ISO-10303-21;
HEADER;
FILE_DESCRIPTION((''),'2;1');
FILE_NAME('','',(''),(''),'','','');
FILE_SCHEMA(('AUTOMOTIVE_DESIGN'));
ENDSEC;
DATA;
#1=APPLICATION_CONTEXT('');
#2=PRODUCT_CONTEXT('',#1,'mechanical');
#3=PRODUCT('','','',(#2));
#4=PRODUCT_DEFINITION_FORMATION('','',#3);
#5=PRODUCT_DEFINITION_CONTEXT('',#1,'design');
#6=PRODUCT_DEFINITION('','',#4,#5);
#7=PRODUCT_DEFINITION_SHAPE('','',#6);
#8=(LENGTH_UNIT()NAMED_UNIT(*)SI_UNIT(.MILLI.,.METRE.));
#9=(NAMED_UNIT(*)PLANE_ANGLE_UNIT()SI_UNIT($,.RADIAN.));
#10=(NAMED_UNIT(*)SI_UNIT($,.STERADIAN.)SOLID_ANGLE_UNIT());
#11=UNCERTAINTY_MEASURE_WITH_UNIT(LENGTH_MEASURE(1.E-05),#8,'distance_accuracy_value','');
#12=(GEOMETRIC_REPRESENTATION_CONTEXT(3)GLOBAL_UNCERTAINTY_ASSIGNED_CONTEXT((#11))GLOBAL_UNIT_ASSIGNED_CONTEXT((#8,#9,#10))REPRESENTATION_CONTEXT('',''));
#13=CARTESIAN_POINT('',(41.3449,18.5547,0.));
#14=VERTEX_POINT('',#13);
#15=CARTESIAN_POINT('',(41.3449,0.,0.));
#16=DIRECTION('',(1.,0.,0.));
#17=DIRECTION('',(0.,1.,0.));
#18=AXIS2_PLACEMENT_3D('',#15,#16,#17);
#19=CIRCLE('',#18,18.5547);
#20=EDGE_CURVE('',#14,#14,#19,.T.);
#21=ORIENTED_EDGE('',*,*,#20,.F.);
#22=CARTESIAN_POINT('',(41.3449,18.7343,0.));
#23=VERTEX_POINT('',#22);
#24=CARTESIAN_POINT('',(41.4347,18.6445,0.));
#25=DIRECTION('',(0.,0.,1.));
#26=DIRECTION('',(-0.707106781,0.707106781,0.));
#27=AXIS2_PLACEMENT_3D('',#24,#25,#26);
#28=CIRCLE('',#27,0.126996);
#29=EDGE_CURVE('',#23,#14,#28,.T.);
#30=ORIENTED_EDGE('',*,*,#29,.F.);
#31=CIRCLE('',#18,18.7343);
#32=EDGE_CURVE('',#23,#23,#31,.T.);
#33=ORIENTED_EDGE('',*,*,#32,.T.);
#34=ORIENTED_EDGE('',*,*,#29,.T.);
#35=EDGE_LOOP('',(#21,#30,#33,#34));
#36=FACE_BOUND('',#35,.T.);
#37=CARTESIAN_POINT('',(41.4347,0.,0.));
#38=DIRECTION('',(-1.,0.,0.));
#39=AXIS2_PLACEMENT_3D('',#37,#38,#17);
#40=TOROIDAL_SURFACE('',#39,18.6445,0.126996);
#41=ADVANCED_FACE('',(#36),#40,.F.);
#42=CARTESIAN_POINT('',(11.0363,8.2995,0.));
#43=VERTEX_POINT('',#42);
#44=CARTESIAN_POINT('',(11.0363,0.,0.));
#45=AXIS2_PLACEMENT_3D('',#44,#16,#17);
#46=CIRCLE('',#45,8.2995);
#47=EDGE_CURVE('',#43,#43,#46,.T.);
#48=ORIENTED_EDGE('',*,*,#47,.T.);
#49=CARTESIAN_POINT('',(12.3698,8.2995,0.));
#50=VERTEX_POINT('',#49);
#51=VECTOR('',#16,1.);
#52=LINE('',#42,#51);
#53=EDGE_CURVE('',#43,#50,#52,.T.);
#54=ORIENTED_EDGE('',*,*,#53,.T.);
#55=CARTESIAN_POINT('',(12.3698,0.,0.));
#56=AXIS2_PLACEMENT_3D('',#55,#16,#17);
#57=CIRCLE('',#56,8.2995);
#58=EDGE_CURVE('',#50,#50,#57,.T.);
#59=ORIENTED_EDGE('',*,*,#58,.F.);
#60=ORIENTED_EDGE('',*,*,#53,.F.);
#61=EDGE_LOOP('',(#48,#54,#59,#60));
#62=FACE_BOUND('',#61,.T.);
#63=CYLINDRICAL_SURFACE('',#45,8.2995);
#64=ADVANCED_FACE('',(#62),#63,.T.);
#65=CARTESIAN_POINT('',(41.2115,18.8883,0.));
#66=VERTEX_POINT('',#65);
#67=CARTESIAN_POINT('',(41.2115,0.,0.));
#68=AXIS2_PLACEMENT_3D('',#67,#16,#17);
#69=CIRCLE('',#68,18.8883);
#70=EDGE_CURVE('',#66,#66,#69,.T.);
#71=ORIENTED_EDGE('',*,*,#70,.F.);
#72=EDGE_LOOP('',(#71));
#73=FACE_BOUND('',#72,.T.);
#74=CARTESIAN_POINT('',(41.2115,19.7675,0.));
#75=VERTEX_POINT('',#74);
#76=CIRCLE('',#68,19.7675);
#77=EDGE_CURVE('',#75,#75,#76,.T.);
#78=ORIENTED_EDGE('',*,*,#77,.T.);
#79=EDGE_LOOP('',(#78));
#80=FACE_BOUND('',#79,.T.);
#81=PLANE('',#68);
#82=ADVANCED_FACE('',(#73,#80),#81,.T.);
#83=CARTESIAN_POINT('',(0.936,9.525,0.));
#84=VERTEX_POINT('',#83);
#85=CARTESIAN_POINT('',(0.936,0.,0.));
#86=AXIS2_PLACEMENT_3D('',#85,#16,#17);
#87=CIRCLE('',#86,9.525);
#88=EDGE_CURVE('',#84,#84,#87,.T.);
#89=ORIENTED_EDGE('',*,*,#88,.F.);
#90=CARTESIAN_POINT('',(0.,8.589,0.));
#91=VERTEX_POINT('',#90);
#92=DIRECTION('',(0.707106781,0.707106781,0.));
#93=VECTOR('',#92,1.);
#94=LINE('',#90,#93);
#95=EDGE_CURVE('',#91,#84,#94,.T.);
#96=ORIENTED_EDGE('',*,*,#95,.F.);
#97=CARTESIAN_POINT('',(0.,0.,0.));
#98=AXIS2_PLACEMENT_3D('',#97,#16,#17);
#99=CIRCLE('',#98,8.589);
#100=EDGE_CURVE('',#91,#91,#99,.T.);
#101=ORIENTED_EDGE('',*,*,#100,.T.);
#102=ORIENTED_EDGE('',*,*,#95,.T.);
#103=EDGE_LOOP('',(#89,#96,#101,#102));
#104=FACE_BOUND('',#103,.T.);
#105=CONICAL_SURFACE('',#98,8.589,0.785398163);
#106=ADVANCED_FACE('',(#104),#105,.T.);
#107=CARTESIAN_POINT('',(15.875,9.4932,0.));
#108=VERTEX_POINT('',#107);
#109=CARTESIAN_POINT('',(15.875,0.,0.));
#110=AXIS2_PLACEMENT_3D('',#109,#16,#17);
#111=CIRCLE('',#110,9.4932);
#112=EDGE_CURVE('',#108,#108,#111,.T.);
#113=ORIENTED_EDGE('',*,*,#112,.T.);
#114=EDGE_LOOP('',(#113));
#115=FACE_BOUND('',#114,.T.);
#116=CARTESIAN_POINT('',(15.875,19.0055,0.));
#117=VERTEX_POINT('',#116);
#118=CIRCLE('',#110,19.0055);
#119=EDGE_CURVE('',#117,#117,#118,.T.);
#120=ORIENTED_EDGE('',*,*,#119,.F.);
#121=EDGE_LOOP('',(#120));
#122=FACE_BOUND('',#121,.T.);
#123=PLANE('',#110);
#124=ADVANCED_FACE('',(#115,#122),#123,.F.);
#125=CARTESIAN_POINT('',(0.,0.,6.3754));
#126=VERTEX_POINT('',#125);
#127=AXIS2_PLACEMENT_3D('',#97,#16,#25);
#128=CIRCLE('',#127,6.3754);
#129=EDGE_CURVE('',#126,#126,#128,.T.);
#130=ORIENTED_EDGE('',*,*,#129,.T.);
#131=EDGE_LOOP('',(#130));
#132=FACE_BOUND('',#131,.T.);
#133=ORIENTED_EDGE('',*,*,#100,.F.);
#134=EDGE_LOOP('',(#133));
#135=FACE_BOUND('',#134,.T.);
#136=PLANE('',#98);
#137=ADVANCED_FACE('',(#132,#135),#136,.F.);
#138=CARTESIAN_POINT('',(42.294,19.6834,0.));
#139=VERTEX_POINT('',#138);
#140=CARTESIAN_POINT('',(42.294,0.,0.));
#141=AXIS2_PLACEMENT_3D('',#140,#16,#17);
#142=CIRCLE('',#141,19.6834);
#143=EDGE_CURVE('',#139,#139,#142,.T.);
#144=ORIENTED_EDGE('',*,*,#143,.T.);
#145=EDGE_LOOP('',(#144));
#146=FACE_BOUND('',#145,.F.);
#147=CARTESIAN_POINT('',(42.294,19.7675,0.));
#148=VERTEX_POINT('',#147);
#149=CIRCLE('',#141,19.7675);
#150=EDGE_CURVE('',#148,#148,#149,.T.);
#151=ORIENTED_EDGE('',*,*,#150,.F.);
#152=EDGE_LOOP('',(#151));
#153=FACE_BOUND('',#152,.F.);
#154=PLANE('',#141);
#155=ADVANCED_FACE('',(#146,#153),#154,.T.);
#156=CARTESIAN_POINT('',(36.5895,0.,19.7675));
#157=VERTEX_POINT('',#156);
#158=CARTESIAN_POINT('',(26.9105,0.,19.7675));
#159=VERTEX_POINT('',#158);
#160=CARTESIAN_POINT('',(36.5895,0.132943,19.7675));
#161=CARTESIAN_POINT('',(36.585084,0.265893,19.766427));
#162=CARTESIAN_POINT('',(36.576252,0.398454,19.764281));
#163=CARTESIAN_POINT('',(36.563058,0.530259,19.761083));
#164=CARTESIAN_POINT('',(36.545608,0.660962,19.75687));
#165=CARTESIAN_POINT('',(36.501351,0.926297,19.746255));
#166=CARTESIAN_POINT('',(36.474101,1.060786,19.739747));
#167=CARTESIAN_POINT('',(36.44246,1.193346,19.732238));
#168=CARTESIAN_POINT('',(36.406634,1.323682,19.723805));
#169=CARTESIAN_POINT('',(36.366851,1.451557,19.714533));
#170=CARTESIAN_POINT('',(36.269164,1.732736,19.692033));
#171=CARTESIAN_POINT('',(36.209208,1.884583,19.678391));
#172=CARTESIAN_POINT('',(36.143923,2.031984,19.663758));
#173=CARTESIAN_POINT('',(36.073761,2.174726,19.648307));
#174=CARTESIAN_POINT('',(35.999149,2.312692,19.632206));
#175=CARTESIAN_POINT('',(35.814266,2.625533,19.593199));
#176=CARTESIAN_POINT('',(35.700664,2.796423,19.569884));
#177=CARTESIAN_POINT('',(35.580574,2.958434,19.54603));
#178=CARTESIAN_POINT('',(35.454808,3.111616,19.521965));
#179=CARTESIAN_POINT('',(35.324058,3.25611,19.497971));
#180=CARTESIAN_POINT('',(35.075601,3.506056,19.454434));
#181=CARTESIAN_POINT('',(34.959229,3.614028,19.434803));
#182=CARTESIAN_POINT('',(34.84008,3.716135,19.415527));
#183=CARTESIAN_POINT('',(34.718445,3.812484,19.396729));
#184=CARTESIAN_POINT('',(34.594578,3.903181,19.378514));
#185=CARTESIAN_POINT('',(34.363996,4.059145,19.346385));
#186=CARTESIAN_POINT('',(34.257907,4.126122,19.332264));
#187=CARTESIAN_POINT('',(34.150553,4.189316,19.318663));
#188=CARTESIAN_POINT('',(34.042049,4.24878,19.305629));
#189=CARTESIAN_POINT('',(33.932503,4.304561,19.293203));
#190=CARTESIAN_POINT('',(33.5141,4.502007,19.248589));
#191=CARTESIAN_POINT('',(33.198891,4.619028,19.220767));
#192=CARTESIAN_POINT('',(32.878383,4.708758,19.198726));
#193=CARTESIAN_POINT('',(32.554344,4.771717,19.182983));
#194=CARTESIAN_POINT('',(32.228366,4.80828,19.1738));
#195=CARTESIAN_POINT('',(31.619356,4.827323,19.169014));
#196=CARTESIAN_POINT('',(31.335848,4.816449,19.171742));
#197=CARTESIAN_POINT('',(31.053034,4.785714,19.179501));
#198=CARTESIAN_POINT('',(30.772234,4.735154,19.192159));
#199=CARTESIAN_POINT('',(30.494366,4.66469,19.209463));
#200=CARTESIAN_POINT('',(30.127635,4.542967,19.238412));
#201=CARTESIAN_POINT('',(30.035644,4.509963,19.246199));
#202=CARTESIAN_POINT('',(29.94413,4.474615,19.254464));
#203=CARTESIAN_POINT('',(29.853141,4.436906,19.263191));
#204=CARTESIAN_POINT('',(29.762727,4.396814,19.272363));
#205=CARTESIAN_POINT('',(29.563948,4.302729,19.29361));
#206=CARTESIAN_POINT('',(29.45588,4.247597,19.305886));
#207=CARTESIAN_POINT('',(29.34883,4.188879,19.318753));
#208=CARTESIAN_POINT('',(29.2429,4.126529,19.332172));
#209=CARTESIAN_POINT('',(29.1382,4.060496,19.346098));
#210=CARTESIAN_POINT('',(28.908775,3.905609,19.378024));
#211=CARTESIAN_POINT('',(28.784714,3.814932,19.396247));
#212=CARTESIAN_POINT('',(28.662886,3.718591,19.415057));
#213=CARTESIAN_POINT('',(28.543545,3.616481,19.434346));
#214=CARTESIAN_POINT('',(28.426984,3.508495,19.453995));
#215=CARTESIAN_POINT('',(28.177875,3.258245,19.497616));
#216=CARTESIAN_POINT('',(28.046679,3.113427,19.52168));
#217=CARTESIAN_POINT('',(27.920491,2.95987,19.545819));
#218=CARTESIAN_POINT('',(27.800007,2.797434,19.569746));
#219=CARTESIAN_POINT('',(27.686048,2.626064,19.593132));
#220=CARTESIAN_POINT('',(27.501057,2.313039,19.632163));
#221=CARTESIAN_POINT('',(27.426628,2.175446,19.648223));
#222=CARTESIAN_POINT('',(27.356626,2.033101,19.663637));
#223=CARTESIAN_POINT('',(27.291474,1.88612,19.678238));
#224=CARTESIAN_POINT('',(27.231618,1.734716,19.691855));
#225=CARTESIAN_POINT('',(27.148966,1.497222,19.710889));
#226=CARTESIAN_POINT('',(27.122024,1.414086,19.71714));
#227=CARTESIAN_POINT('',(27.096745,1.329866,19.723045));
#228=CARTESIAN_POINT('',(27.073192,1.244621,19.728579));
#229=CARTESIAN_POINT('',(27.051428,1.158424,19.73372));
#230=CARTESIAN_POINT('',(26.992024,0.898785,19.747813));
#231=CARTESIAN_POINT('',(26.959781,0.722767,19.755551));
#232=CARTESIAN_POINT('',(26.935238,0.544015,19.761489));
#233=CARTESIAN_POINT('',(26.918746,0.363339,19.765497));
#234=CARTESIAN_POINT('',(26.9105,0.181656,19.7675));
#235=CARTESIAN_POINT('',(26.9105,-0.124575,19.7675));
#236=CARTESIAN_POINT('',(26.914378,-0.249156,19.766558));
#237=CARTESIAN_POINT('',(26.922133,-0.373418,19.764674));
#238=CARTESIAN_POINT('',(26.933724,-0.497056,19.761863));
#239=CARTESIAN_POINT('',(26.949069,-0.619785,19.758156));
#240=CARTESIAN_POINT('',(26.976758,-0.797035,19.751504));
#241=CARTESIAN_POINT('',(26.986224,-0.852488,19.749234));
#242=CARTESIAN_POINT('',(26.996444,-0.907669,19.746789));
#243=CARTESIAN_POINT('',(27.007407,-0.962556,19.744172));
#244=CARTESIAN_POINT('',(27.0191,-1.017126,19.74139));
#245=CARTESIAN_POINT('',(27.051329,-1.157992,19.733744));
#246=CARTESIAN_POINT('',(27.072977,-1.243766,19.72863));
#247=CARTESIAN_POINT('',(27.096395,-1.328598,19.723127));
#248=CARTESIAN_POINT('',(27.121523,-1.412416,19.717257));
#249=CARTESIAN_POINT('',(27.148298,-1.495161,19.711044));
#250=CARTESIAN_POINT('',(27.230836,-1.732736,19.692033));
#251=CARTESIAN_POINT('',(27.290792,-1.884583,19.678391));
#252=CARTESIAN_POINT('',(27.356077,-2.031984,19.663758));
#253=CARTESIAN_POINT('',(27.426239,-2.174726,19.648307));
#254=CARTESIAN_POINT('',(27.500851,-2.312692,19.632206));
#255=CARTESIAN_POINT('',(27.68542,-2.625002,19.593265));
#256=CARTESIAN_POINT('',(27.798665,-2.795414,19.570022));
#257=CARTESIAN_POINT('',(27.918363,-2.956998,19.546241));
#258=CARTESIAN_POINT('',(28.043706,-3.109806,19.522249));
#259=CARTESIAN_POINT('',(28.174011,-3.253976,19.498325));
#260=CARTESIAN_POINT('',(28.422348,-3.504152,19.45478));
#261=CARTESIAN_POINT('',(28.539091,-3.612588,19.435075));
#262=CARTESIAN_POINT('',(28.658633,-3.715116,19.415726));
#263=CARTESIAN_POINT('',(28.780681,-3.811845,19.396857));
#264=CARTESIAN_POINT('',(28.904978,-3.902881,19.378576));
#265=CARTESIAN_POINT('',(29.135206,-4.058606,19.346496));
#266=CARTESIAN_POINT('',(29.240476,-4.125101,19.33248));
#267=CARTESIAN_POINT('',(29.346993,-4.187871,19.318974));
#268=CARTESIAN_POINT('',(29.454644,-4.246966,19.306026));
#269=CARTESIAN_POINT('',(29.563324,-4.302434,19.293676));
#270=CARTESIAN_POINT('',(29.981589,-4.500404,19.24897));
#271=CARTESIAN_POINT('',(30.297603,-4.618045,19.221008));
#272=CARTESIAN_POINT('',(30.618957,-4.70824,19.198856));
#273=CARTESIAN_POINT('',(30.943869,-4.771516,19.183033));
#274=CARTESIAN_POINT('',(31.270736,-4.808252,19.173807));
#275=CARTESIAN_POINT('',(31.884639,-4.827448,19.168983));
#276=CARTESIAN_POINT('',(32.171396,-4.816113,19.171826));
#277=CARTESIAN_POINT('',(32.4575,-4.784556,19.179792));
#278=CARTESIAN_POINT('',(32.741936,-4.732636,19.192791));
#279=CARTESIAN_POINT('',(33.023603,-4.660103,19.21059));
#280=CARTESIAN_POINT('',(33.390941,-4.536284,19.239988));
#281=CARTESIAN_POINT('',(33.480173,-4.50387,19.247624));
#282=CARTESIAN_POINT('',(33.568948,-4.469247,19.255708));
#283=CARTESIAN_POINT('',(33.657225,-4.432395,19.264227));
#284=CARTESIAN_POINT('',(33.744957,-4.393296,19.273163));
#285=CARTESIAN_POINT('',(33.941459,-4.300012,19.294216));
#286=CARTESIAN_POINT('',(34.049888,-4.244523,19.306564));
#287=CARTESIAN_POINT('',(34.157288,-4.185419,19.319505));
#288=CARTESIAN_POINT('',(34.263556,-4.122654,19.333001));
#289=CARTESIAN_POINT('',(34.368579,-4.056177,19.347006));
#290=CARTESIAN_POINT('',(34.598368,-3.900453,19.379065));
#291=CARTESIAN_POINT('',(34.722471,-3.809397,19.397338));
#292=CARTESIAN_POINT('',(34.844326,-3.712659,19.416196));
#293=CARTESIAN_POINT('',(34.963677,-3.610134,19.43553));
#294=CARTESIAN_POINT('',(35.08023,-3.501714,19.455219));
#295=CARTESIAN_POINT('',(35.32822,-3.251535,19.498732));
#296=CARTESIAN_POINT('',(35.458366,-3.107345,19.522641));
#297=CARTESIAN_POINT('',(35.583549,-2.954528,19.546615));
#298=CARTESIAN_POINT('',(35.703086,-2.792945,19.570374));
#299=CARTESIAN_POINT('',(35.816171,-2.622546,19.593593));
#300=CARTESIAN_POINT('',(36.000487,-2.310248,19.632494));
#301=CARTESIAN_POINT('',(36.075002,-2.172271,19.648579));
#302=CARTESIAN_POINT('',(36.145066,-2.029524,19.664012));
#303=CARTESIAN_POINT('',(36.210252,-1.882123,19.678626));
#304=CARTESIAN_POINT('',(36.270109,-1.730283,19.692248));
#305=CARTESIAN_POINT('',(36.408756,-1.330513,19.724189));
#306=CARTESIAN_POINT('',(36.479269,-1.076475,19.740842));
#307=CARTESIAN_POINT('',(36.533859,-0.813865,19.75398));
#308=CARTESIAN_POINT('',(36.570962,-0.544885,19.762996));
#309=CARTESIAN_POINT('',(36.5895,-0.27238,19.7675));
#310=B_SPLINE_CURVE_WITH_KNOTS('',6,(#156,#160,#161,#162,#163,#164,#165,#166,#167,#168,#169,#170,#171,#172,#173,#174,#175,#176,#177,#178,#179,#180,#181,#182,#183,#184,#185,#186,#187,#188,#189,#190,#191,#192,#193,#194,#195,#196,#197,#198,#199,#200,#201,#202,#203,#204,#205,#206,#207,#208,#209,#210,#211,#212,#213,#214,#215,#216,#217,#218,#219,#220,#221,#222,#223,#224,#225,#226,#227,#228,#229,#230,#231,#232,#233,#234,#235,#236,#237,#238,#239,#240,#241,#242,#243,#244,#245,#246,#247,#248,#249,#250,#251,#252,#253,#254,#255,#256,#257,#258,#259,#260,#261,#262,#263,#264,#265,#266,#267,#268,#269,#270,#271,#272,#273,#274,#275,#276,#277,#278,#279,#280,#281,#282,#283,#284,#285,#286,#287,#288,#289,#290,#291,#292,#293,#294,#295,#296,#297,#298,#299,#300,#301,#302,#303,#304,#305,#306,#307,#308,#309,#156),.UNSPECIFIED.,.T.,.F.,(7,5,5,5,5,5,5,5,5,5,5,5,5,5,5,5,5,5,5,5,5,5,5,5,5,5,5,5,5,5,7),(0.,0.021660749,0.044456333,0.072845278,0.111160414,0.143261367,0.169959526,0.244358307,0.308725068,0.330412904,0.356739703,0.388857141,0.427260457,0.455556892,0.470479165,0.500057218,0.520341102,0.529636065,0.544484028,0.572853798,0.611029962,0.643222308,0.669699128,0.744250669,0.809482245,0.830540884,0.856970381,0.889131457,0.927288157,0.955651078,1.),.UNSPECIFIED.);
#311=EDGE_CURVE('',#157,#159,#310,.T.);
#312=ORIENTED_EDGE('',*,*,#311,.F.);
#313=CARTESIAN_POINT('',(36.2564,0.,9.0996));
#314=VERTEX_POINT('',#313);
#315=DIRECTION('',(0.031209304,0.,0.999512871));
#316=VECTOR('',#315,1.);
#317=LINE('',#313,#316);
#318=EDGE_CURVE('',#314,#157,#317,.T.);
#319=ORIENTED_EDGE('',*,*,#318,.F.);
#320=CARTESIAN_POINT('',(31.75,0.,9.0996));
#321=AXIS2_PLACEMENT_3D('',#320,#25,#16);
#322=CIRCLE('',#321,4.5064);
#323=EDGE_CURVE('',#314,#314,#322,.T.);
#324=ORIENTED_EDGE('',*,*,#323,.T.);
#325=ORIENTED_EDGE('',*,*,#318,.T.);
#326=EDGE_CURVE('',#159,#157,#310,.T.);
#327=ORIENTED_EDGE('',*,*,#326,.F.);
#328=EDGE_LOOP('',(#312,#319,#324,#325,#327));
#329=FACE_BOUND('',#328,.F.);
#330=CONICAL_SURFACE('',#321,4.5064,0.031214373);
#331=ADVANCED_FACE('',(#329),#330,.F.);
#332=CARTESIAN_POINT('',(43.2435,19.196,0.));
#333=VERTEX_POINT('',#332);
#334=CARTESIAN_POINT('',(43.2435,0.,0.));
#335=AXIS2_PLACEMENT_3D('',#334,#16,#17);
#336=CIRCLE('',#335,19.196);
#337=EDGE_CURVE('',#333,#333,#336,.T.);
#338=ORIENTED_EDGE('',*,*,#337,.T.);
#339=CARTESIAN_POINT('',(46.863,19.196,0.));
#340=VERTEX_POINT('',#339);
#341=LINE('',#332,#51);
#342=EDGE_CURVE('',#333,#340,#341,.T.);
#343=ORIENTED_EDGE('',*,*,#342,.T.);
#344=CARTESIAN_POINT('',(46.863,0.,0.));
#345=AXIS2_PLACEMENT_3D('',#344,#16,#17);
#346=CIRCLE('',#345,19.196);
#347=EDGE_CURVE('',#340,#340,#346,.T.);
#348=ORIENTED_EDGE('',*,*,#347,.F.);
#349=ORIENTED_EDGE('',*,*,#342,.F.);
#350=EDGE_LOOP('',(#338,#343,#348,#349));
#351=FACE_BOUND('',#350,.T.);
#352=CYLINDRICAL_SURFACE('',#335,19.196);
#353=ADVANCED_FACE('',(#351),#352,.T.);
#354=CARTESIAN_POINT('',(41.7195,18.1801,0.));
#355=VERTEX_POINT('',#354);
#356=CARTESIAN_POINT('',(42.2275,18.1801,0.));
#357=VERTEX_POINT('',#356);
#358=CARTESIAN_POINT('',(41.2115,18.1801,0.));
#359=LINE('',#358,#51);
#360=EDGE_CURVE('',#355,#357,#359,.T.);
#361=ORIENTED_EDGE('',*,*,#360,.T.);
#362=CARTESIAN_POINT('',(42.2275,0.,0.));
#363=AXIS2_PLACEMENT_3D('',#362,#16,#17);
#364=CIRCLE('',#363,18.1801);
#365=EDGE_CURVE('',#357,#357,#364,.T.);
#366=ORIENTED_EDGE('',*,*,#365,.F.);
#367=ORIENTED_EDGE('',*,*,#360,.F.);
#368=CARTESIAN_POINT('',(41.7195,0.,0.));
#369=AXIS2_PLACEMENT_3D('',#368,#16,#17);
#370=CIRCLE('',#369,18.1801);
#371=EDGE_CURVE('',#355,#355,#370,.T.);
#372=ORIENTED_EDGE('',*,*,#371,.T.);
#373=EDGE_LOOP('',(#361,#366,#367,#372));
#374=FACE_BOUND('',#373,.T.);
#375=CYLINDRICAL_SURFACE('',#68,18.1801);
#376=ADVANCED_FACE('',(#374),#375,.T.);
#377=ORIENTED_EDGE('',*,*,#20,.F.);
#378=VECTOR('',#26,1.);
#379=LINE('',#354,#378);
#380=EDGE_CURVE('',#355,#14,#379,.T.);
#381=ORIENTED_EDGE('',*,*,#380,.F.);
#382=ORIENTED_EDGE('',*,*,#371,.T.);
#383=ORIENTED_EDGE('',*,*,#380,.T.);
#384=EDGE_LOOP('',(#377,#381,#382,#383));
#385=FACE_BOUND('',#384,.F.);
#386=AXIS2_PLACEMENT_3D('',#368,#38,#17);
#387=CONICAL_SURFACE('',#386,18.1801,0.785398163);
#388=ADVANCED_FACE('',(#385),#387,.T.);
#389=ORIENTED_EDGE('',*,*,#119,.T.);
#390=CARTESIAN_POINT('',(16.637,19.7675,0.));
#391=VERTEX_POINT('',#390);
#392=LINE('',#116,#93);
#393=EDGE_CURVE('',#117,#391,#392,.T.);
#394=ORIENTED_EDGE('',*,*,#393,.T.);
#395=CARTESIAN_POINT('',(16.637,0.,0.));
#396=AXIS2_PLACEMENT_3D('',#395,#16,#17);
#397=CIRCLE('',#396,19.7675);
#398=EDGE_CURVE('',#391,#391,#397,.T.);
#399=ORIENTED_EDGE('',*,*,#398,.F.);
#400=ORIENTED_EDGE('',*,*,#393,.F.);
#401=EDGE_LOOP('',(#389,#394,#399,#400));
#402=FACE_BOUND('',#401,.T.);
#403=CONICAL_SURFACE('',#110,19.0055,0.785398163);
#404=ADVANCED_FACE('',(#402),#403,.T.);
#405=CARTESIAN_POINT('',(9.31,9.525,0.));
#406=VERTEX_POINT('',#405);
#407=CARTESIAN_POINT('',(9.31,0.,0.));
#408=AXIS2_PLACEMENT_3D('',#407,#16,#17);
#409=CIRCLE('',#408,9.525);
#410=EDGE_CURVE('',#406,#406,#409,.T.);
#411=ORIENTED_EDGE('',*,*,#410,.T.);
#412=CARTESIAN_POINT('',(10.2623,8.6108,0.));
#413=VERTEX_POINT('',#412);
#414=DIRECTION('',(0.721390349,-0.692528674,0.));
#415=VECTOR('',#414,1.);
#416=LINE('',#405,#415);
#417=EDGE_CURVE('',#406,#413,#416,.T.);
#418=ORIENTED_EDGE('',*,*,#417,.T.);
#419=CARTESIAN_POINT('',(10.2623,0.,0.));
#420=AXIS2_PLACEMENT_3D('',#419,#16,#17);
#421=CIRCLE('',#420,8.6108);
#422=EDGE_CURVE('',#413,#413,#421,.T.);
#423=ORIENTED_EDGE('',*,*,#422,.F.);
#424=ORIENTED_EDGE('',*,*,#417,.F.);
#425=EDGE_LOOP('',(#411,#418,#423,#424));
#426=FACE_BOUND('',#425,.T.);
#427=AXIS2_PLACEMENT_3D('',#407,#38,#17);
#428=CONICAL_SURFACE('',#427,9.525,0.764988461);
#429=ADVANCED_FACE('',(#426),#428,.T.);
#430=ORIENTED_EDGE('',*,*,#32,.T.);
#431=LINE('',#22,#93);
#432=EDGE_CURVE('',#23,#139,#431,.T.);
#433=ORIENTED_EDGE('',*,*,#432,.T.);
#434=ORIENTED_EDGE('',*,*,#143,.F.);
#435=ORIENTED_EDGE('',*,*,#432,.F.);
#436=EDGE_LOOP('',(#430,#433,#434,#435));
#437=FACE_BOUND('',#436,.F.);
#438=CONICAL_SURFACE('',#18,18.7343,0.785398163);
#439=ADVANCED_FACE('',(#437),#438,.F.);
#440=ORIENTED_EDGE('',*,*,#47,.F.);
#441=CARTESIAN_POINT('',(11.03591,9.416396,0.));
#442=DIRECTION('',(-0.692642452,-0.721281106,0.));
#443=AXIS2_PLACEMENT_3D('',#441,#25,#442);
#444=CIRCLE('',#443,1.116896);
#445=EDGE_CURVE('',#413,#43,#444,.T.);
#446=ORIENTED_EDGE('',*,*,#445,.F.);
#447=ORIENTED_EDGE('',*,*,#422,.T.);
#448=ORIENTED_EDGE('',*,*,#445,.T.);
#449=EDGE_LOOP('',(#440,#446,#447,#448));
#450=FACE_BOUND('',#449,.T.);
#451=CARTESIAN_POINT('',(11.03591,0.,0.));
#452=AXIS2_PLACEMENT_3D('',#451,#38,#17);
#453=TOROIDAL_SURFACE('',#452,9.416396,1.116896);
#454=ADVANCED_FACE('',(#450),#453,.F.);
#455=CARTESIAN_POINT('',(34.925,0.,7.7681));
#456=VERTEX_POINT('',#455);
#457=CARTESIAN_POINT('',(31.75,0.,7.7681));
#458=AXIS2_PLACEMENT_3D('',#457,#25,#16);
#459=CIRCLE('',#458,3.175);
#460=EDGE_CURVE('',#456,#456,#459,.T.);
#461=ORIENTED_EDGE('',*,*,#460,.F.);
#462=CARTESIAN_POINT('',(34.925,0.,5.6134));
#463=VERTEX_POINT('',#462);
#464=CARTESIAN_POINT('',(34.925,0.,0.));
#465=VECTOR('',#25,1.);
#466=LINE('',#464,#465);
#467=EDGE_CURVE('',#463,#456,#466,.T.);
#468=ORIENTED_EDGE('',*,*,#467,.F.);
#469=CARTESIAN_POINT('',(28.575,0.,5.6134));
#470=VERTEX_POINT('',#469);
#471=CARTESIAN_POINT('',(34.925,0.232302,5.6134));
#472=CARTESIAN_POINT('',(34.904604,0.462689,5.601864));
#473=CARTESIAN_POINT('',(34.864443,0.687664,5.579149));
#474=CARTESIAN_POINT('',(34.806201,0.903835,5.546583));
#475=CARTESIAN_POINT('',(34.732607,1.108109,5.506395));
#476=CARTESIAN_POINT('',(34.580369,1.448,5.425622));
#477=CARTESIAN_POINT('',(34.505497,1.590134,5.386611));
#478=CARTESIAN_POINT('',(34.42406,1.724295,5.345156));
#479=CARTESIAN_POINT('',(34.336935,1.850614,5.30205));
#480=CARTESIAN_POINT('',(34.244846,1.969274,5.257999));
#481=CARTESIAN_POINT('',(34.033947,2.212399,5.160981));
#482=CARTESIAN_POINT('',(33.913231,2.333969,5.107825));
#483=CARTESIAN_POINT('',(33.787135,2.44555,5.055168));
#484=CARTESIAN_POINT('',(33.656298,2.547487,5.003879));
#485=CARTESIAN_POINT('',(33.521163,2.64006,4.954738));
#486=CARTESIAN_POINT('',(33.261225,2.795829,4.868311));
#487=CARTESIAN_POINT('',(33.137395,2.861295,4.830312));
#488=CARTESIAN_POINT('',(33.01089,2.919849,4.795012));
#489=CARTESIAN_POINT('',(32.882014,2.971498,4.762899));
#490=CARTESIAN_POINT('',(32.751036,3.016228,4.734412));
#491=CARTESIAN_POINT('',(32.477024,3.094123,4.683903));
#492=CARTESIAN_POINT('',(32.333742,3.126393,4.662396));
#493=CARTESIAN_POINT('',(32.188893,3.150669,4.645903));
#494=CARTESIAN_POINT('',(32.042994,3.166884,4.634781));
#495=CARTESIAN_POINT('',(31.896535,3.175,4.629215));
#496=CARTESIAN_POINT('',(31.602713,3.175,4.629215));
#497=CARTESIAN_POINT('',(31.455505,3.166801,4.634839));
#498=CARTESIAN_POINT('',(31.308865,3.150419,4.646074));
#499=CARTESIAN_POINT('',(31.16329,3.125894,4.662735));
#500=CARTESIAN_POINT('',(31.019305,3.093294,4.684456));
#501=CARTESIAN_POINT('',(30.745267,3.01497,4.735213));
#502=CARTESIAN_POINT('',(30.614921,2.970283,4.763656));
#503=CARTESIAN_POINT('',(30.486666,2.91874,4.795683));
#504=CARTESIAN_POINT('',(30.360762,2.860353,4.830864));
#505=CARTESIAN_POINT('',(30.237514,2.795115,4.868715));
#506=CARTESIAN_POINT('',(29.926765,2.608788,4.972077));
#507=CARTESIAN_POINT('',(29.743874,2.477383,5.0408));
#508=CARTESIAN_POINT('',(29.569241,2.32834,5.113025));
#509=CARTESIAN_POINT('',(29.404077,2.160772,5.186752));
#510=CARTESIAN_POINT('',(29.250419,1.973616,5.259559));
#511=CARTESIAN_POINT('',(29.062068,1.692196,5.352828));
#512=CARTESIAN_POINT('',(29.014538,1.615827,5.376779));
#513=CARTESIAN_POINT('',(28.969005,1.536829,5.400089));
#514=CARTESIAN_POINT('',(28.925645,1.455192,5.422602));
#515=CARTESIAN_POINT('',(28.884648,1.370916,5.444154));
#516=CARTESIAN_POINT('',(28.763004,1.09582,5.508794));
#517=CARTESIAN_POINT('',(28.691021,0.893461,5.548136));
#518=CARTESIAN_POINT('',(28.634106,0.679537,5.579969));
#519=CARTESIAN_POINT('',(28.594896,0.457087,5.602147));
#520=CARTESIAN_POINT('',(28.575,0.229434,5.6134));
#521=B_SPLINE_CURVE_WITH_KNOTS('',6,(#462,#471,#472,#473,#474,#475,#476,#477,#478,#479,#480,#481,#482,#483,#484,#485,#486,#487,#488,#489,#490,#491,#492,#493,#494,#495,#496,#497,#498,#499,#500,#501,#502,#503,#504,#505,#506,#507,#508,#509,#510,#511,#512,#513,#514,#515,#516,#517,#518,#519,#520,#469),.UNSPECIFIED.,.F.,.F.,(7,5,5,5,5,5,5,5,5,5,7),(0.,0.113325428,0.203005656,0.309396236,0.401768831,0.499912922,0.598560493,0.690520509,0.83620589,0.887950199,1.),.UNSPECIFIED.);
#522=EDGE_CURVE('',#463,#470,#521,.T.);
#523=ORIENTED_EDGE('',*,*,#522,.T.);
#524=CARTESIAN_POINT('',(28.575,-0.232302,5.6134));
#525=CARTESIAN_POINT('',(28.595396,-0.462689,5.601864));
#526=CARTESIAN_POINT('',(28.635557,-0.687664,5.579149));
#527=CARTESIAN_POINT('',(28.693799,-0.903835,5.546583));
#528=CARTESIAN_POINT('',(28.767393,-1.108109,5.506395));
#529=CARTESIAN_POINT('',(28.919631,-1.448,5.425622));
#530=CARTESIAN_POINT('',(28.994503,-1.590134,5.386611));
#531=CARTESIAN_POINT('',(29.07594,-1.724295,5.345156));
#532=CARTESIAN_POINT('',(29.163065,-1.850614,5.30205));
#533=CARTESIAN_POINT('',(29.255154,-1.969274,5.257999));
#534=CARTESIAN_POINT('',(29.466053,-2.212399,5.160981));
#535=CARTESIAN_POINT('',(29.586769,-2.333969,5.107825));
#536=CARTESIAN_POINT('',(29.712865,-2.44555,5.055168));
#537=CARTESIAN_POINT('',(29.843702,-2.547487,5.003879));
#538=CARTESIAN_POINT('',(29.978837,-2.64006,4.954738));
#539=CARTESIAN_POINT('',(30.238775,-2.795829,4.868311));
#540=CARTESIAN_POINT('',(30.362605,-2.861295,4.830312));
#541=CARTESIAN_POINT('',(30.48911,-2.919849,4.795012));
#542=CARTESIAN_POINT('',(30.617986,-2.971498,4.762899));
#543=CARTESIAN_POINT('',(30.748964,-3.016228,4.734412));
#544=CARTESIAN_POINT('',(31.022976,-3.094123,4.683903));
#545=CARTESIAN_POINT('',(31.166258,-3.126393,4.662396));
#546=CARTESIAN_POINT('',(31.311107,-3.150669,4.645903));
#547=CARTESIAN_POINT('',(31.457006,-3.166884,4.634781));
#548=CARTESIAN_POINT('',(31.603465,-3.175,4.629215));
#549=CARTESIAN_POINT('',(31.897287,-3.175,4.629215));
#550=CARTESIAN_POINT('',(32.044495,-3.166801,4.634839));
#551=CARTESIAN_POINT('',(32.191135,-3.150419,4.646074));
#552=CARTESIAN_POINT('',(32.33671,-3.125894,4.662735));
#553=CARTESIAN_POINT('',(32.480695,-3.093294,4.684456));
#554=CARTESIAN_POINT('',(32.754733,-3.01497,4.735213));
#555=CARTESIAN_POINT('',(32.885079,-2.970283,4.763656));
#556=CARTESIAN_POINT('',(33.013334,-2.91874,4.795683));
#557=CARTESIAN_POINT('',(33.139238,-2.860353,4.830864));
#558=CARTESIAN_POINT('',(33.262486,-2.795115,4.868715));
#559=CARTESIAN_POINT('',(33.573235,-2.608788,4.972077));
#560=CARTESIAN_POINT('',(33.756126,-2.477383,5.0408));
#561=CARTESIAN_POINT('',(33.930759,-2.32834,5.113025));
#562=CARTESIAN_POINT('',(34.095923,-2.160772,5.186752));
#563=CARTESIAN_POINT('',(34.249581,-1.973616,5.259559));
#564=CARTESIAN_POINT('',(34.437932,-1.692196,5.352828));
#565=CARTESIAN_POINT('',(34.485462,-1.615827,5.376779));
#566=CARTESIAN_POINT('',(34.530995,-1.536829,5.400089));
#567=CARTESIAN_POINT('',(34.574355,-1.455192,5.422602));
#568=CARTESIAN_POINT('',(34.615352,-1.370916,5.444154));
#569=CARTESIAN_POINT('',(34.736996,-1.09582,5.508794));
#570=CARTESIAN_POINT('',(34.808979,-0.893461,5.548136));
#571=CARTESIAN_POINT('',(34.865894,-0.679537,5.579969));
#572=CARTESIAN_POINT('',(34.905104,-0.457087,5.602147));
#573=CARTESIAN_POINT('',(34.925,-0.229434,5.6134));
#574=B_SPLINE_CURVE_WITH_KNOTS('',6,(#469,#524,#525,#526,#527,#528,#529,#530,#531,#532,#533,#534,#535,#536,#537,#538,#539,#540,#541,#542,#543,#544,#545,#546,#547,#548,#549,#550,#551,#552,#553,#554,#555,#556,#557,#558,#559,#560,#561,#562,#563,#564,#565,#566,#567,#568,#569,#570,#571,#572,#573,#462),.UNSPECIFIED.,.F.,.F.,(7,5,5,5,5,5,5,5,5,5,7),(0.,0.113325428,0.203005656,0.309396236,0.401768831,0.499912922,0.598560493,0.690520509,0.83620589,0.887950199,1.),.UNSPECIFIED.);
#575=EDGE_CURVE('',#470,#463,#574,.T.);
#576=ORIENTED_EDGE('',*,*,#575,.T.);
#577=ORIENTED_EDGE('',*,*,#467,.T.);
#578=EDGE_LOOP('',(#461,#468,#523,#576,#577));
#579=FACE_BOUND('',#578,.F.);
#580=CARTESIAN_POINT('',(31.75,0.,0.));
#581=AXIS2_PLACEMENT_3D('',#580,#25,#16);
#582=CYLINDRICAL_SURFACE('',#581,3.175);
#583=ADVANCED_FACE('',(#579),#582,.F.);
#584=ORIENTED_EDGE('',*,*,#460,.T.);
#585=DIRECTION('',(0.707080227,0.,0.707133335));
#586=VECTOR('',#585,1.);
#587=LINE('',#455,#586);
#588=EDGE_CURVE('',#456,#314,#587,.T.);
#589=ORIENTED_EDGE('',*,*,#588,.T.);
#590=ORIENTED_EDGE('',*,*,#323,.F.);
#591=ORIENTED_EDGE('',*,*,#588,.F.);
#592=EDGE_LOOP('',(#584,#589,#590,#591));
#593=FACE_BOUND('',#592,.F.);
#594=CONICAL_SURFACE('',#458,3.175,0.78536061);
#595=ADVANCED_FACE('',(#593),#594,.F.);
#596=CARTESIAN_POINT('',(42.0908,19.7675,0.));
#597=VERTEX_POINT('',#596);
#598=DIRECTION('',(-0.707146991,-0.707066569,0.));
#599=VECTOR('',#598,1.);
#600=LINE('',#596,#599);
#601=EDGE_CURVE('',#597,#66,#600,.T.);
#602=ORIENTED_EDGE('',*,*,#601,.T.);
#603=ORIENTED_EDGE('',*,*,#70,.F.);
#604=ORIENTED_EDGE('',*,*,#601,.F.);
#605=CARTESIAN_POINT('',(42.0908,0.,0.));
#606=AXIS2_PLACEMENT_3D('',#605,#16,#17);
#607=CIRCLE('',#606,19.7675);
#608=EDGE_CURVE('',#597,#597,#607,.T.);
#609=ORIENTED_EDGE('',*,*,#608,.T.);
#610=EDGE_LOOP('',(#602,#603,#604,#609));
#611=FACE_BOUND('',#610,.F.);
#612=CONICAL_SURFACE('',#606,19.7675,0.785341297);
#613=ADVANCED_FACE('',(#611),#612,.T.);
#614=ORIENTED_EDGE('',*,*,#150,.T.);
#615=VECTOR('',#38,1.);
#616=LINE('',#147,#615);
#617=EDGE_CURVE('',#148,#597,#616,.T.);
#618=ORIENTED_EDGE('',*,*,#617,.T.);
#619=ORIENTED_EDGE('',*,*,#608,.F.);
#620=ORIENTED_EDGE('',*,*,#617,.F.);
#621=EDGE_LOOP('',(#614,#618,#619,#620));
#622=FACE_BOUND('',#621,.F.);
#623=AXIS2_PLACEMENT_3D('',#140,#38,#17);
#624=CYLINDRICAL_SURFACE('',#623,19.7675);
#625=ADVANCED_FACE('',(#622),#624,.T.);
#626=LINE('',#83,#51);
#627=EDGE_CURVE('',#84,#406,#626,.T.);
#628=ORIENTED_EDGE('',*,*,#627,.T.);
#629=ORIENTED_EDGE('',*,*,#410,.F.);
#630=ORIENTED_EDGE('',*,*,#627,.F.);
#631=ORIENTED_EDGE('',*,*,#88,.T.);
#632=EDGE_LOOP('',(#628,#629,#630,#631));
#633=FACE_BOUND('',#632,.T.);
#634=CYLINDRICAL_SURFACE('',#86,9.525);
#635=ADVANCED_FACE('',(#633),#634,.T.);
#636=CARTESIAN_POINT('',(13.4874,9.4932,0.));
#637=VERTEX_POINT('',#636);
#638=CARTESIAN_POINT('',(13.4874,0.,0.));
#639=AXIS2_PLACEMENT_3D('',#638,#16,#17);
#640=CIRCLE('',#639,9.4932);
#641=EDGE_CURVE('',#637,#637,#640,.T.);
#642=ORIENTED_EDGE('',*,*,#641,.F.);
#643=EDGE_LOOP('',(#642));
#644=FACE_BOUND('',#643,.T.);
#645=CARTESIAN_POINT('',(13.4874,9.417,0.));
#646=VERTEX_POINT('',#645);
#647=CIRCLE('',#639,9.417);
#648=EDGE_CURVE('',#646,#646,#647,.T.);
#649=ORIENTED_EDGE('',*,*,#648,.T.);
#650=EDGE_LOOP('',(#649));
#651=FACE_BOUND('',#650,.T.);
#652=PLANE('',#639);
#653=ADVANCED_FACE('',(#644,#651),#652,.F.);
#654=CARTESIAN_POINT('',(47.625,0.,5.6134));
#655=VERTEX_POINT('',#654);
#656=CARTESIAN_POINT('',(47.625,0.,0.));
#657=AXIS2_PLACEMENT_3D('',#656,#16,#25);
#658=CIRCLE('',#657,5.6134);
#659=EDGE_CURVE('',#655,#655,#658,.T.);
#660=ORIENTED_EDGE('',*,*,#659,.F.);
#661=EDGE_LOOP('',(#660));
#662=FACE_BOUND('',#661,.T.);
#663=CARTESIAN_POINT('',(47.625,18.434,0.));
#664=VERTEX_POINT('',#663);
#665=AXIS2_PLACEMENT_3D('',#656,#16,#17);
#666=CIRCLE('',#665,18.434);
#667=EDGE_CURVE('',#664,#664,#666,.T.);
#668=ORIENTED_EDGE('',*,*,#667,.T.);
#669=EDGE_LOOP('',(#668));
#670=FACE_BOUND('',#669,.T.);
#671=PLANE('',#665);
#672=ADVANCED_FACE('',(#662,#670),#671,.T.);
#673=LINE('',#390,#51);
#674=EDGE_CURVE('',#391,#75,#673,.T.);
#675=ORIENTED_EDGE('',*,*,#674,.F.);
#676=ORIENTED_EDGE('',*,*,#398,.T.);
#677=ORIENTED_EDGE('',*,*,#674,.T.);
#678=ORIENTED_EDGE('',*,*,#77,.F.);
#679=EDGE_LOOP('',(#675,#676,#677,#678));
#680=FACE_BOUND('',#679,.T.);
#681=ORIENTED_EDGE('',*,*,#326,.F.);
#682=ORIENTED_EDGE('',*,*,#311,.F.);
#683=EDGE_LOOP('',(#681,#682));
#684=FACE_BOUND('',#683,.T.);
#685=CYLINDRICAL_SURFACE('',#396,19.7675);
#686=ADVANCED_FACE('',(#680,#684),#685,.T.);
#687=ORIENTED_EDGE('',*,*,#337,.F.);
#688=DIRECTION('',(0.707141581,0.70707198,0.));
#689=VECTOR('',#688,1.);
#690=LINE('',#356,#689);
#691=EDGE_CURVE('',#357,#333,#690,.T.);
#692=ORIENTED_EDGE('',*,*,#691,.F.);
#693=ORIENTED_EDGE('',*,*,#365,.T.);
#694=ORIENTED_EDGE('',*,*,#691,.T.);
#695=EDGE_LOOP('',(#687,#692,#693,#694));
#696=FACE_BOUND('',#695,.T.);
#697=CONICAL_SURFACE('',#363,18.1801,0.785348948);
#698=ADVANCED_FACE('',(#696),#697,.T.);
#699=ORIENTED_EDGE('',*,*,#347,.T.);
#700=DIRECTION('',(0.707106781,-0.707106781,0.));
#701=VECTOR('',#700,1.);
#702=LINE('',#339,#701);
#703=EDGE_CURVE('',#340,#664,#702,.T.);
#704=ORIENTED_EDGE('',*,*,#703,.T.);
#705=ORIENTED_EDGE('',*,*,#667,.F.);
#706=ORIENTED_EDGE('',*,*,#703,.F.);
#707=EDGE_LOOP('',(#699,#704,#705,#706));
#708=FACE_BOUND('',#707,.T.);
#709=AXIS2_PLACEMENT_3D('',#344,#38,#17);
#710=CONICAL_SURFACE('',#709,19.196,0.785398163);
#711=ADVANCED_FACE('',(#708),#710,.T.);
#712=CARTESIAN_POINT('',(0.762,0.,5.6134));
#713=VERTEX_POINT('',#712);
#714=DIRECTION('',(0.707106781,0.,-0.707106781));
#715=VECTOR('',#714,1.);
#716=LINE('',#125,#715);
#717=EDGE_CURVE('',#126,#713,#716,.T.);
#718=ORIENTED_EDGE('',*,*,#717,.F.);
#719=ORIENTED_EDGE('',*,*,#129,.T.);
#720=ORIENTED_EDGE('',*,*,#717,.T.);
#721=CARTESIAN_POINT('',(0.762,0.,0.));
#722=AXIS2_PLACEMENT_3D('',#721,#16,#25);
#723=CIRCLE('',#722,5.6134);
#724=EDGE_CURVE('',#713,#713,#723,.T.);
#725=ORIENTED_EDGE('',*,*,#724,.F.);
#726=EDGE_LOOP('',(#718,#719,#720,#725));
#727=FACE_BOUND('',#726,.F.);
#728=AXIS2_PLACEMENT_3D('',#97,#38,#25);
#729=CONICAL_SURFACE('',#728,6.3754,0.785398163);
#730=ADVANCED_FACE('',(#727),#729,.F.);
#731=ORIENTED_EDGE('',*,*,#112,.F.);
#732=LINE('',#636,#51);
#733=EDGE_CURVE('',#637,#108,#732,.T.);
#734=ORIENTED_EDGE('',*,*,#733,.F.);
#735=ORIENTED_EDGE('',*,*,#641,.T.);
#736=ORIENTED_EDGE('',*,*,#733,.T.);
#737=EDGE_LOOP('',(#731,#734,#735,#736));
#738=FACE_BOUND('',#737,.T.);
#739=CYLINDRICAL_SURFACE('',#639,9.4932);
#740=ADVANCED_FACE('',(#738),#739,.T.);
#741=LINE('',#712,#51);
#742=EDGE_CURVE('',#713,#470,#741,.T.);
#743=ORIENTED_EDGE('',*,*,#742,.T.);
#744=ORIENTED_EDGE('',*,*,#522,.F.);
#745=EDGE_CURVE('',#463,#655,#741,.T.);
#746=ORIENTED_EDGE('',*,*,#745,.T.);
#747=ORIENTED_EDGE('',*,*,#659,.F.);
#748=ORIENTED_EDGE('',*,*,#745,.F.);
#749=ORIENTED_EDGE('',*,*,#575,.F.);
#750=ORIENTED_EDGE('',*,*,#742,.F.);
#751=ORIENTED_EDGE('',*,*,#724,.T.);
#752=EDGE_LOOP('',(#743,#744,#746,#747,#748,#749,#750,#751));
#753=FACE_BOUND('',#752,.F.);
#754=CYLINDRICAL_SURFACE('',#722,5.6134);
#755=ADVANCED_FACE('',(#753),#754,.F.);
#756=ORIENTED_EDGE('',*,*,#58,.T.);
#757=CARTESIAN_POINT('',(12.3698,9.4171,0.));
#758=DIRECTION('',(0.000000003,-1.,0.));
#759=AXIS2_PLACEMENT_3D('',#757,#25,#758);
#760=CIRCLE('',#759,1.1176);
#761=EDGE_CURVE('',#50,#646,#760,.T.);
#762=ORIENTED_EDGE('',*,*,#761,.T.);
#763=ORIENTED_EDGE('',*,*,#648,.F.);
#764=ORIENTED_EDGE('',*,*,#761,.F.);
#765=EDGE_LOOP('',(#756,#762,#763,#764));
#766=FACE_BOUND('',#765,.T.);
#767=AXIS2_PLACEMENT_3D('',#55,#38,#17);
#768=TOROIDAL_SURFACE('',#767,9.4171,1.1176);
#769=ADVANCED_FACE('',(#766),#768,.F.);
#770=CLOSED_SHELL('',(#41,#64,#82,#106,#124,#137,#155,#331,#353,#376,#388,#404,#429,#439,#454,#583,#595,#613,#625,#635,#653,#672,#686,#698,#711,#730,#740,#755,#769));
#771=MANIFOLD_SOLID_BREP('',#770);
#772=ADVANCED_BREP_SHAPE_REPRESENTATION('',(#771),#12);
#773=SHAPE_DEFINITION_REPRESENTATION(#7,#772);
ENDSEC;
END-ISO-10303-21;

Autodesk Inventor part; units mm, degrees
sketch "Sketch_2" plane through (0, 0, 0) normal (0, 0, 1) x (1, 0, 0)
  line L0 (15.875, 0) -> (0, 0)
  line L1 (0, 0) -> (0, 8.589)
  line L2 (0, 8.589) -> (0.936, 9.525)
  line L3 (0.936, 9.525) -> (9.31, 9.525)
  line L4 (9.31, 9.525) -> (10.2623, 8.6108)
  arc A0 (10.2623, 8.6108) -> (11.0363, 8.2995) centre (11.0363, 9.417) ccw
  line L5 (11.0363, 8.2995) -> (12.3698, 8.2995)
  arc A1 (12.3698, 8.2995) -> (13.4874, 9.417) centre (12.3698, 9.4171) ccw
  line L6 (13.4874, 9.417) -> (13.4874, 9.4932)
  line L7 (13.4874, 9.4932) -> (15.875, 9.4932)
  line L8 (15.875, 9.4932) -> (15.875, 0)
  line L9 (15.875, 0) -> (0, 0)
revolve "Revolution1" add sketch "Sketch_2" angle 360 about axis through (15.875, 0, 0) along (1, 0, 0)
thread "Thread1" size "3/4-16 UNF" class "2A" standard "ANSI Unified Screw Threads" full length
sketch "Sketch_3" plane through (0, 0, 0) normal (0, 0, 1) x (1, 0, 0)
  line L0 (47.625, 0) -> (15.875, 0)
  line L1 (15.875, 0) -> (15.875, 19.0055)
  line L2 (15.875, 19.0055) -> (16.637, 19.7675)
  line L3 (16.637, 19.7675) -> (41.2115, 19.7675)
  line L4 (41.2115, 19.7675) -> (41.2115, 18.1801)
  line L5 (41.2115, 18.1801) -> (42.2275, 18.1801)
  line L6 (42.2275, 18.1801) -> (43.2435, 19.196)
  line L7 (43.2435, 19.196) -> (46.863, 19.196)
  line L8 (46.863, 19.196) -> (47.625, 18.434)
  line L9 (47.625, 18.434) -> (47.625, 0)
  line L10 (47.625, 0) -> (15.875, 0)
revolve "Revolution2" add sketch "Sketch_3" angle 360 about axis through (47.625, 0, 0) along (1, 0, 0)
sketch "Sketch3" plane through (0, 0, 0) normal (-1, 0, 0) x (0, 0, 1)
  point P0 (0, 0)
hole "Hole1" at (0, 0, 0) direction (1, 0, 0) diameter 11.2268 depth 47.625 countersink diameter 12.7508 countersink angle 90
sketch "Sketch_40" plane through (0, 0, 0) normal (0, 1, 0) x (-1, 0, 0)
  line L0 (-31.75, 19.7675) -> (-31.75, 0)
  line L1 (-31.75, 0) -> (-34.925, 0)
  line L2 (-34.925, 0) -> (-34.925, 7.7681)
  line L3 (-34.925, 7.7681) -> (-36.2564, 9.0996)
  line L4 (-36.2564, 9.0996) -> (-36.5895, 19.7675)
  line L5 (-36.5895, 19.7675) -> (-31.75, 19.7675)
  line L6 (-31.75, 19.7675) -> (-31.75, 0)
revolve "Revolution3" cut sketch "Sketch_40" angle 360 about axis through (31.75, 0, 19.7675) along (0, 0, 1)
thread "Thread2" size "1/8" designation "1/8 - 27 NPT" standard "NPT" length 6.4039
sketch "Sketch_47" plane through (0, 0, 0) normal (0, 0, 1) x (1, 0, 0)
  line L0 (42.2275, 0) -> (41.2115, 0)
  line L1 (41.2115, 18.8883) -> (41.2115, 17.9261)
  line L2 (41.2115, 17.9261) -> (42.2275, 17.9261)
  line L3 (42.2275, 17.9261) -> (42.2275, 18.1801)
  line L4 (42.2275, 18.1801) -> (41.7195, 18.1801)
  line L5 (41.7195, 18.1801) -> (41.3449, 18.5547)
  arc A0 (41.3449, 18.7343) -> (41.3449, 18.5547) centre (41.4347, 18.6445) ccw
  line L6 (41.3449, 18.7343) -> (42.294, 19.6834)
  line L7 (42.294, 19.6834) -> (42.294, 19.7675)
  line L8 (42.294, 19.7675) -> (42.0908, 19.7675)
  line L9 (42.0908, 19.7675) -> (41.2115, 18.8883)
revolve "Revolution4" add sketch "Sketch_47" angle 360 about axis through (42.2275, 0, 0) along (1, 0, 0)
ref_plane "dp1_XY" through (15.875, 9.4932, 0) normal (0, 0, 1) x (1, 0, 0)
ref_plane "dp1_YZ" through (15.875, 9.4932, 0) normal (1, 0, 0) x (0, 1, 0)
ref_plane "dp1_ZX" through (15.875, 9.4932, 0) normal (0, 1, 0) x (0, 0, 1)
ref_plane "dp2_XY" through (15.875, -9.4932, 0) normal (0, 0, 1) x (1, 0, 0)
ref_plane "dp2_YZ" through (15.875, -9.4932, 0) normal (1, 0, 0) x (0, 1, 0)
ref_plane "dp2_ZX" through (15.875, -9.4932, 0) normal (0, 1, 0) x (0, 0, 1)
ref_plane "hh_XY" through (0, 9.525, 0) normal (0, 0, 1) x (1, 0, 0)
ref_plane "hh_YZ" through (0, 9.525, 0) normal (1, 0, 0) x (0, 1, 0)
ref_plane "hh_ZX" through (0, 9.525, 0) normal (0, 1, 0) x (0, 0, 1)
ref_plane "port_XY" through (31.75, 0, 0) normal (0, 0, 1) x (1, 0, 0)
ref_plane "port_YZ" through (31.75, 0, 0) normal (1, 0, 0) x (0, 1, 0)
ref_plane "port_ZX" through (31.75, 0, 0) normal (0, 1, 0) x (0, 0, 1)
ref_plane "rod_guide_XY" through (0, 0, 0) normal (1, 0, 0) x (0, 0, -1)
ref_plane "rod_guide_YZ" through (0, 0, 0) normal (0, 0, -1) x (0, 1, 0)
ref_plane "rod_guide_ZX" through (0, 0, 0) normal (0, 1, 0) x (1, 0, 0)
ref_plane "s1_XY" through (13.4874, 0, 0) normal (0, 0, 1) x (1, 0, 0)
ref_plane "s1_YZ" through (13.4874, 0, 0) normal (1, 0, 0) x (0, 1, 0)
ref_plane "s1_ZX" through (13.4874, 0, 0) normal (0, 1, 0) x (0, 0, 1)
ref_plane "s2_XY" through (15.875, 0, 0) normal (0, 0, 1) x (1, 0, 0)
ref_plane "s2_YZ" through (15.875, 0, 0) normal (1, 0, 0) x (0, 1, 0)
ref_plane "s2_ZX" through (15.875, 0, 0) normal (0, 1, 0) x (0, 0, 1)
ref_plane "t1_XY" through (15.875, 0, 0) normal (1, 0, 0) x (0, 0, -1)
ref_plane "t1_YZ" through (15.875, 0, 0) normal (0, 0, -1) x (0, 1, 0)
ref_plane "t1_ZX" through (15.875, 0, 0) normal (0, 1, 0) x (1, 0, 0)
ref_plane "t111_XY" through (15.875, 0, 0) normal (1, 0, 0) x (0, 0, -1)
ref_plane "t111_YZ" through (15.875, 0, 0) normal (0, 0, -1) x (0, 1, 0)
ref_plane "t111_ZX" through (15.875, 0, 0) normal (0, 1, 0) x (1, 0, 0)
ref_plane "to_foot_bracket_XY" through (15.875, 0, 0) normal (1, 0, 0) x (0, 0, -1)
ref_plane "to_foot_bracket_YZ" through (15.875, 0, 0) normal (0, 0, -1) x (0, 1, 0)
ref_plane "to_foot_bracket_ZX" through (15.875, 0, 0) normal (0, 1, 0) x (1, 0, 0)
ref_plane "to_nut_XY" through (13.4874, 0, 0) normal (1, 0, 0) x (0, 0, -1)
ref_plane "to_nut_YZ" through (13.4874, 0, 0) normal (0, 0, -1) x (0, 1, 0)
ref_plane "to_nut_ZX" through (13.4874, 0, 0) normal (0, 1, 0) x (1, 0, 0)
ref_plane "to_rod_XY" through (-127, 0, 0) normal (1, 0, 0) x (0, 0, -1)
ref_plane "to_rod_YZ" through (-127, 0, 0) normal (0, 0, -1) x (0, 1, 0)
ref_plane "to_rod_ZX" through (-127, 0, 0) normal (0, 1, 0) x (1, 0, 0)
ref_plane "to_screw_XY" through (31.75, 14.2875, -10.0711) normal (0, 1, 0) x (1, 0, 0)
ref_plane "to_screw_YZ" through (31.75, 14.2875, -10.0711) normal (1, 0, 0) x (0, 0, -1)
ref_plane "to_screw_ZX" through (31.75, 14.2875, -10.0711) normal (0, 0, -1) x (0, 1, 0)
ref_plane "to_trunnion_brackets_XY" through (26.9494, 0, 0) normal (0, 1, 0) x (1, 0, 0)
ref_plane "to_trunnion_brackets_YZ" through (26.9494, 0, 0) normal (1, 0, 0) x (0, 0, -1)
ref_plane "to_trunnion_brackets_ZX" through (26.9494, 0, 0) normal (0, 0, -1) x (0, 1, 0)
ref_plane "to_trunnion_brackets1_XY" through (26.9494, 22.225, 0) normal (0, 1, 0) x (1, 0, 0)
ref_plane "to_trunnion_brackets1_YZ" through (26.9494, 22.225, 0) normal (1, 0, 0) x (0, 0, -1)
ref_plane "to_trunnion_brackets1_ZX" through (26.9494, 22.225, 0) normal (0, 0, -1) x (0, 1, 0)
ref_plane "to_trunnion_brackets2_XY" through (26.9494, -22.225, 0) normal (0, 1, 0) x (1, 0, 0)
ref_plane "to_trunnion_brackets2_YZ" through (26.9494, -22.225, 0) normal (1, 0, 0) x (0, 0, -1)
ref_plane "to_trunnion_brackets2_ZX" through (26.9494, -22.225, 0) normal (0, 0, -1) x (0, 1, 0)
ref_plane "to_tube_XY" through (42.2275, 0, 0) normal (1, 0, 0) x (0, 0, -1)
ref_plane "to_tube_YZ" through (42.2275, 0, 0) normal (0, 0, -1) x (0, 1, 0)
ref_plane "to_tube_ZX" through (42.2275, 0, 0) normal (0, 1, 0) x (1, 0, 0)
properties part number "17R000-5_rod_guide" material "Aluminum 6061"
